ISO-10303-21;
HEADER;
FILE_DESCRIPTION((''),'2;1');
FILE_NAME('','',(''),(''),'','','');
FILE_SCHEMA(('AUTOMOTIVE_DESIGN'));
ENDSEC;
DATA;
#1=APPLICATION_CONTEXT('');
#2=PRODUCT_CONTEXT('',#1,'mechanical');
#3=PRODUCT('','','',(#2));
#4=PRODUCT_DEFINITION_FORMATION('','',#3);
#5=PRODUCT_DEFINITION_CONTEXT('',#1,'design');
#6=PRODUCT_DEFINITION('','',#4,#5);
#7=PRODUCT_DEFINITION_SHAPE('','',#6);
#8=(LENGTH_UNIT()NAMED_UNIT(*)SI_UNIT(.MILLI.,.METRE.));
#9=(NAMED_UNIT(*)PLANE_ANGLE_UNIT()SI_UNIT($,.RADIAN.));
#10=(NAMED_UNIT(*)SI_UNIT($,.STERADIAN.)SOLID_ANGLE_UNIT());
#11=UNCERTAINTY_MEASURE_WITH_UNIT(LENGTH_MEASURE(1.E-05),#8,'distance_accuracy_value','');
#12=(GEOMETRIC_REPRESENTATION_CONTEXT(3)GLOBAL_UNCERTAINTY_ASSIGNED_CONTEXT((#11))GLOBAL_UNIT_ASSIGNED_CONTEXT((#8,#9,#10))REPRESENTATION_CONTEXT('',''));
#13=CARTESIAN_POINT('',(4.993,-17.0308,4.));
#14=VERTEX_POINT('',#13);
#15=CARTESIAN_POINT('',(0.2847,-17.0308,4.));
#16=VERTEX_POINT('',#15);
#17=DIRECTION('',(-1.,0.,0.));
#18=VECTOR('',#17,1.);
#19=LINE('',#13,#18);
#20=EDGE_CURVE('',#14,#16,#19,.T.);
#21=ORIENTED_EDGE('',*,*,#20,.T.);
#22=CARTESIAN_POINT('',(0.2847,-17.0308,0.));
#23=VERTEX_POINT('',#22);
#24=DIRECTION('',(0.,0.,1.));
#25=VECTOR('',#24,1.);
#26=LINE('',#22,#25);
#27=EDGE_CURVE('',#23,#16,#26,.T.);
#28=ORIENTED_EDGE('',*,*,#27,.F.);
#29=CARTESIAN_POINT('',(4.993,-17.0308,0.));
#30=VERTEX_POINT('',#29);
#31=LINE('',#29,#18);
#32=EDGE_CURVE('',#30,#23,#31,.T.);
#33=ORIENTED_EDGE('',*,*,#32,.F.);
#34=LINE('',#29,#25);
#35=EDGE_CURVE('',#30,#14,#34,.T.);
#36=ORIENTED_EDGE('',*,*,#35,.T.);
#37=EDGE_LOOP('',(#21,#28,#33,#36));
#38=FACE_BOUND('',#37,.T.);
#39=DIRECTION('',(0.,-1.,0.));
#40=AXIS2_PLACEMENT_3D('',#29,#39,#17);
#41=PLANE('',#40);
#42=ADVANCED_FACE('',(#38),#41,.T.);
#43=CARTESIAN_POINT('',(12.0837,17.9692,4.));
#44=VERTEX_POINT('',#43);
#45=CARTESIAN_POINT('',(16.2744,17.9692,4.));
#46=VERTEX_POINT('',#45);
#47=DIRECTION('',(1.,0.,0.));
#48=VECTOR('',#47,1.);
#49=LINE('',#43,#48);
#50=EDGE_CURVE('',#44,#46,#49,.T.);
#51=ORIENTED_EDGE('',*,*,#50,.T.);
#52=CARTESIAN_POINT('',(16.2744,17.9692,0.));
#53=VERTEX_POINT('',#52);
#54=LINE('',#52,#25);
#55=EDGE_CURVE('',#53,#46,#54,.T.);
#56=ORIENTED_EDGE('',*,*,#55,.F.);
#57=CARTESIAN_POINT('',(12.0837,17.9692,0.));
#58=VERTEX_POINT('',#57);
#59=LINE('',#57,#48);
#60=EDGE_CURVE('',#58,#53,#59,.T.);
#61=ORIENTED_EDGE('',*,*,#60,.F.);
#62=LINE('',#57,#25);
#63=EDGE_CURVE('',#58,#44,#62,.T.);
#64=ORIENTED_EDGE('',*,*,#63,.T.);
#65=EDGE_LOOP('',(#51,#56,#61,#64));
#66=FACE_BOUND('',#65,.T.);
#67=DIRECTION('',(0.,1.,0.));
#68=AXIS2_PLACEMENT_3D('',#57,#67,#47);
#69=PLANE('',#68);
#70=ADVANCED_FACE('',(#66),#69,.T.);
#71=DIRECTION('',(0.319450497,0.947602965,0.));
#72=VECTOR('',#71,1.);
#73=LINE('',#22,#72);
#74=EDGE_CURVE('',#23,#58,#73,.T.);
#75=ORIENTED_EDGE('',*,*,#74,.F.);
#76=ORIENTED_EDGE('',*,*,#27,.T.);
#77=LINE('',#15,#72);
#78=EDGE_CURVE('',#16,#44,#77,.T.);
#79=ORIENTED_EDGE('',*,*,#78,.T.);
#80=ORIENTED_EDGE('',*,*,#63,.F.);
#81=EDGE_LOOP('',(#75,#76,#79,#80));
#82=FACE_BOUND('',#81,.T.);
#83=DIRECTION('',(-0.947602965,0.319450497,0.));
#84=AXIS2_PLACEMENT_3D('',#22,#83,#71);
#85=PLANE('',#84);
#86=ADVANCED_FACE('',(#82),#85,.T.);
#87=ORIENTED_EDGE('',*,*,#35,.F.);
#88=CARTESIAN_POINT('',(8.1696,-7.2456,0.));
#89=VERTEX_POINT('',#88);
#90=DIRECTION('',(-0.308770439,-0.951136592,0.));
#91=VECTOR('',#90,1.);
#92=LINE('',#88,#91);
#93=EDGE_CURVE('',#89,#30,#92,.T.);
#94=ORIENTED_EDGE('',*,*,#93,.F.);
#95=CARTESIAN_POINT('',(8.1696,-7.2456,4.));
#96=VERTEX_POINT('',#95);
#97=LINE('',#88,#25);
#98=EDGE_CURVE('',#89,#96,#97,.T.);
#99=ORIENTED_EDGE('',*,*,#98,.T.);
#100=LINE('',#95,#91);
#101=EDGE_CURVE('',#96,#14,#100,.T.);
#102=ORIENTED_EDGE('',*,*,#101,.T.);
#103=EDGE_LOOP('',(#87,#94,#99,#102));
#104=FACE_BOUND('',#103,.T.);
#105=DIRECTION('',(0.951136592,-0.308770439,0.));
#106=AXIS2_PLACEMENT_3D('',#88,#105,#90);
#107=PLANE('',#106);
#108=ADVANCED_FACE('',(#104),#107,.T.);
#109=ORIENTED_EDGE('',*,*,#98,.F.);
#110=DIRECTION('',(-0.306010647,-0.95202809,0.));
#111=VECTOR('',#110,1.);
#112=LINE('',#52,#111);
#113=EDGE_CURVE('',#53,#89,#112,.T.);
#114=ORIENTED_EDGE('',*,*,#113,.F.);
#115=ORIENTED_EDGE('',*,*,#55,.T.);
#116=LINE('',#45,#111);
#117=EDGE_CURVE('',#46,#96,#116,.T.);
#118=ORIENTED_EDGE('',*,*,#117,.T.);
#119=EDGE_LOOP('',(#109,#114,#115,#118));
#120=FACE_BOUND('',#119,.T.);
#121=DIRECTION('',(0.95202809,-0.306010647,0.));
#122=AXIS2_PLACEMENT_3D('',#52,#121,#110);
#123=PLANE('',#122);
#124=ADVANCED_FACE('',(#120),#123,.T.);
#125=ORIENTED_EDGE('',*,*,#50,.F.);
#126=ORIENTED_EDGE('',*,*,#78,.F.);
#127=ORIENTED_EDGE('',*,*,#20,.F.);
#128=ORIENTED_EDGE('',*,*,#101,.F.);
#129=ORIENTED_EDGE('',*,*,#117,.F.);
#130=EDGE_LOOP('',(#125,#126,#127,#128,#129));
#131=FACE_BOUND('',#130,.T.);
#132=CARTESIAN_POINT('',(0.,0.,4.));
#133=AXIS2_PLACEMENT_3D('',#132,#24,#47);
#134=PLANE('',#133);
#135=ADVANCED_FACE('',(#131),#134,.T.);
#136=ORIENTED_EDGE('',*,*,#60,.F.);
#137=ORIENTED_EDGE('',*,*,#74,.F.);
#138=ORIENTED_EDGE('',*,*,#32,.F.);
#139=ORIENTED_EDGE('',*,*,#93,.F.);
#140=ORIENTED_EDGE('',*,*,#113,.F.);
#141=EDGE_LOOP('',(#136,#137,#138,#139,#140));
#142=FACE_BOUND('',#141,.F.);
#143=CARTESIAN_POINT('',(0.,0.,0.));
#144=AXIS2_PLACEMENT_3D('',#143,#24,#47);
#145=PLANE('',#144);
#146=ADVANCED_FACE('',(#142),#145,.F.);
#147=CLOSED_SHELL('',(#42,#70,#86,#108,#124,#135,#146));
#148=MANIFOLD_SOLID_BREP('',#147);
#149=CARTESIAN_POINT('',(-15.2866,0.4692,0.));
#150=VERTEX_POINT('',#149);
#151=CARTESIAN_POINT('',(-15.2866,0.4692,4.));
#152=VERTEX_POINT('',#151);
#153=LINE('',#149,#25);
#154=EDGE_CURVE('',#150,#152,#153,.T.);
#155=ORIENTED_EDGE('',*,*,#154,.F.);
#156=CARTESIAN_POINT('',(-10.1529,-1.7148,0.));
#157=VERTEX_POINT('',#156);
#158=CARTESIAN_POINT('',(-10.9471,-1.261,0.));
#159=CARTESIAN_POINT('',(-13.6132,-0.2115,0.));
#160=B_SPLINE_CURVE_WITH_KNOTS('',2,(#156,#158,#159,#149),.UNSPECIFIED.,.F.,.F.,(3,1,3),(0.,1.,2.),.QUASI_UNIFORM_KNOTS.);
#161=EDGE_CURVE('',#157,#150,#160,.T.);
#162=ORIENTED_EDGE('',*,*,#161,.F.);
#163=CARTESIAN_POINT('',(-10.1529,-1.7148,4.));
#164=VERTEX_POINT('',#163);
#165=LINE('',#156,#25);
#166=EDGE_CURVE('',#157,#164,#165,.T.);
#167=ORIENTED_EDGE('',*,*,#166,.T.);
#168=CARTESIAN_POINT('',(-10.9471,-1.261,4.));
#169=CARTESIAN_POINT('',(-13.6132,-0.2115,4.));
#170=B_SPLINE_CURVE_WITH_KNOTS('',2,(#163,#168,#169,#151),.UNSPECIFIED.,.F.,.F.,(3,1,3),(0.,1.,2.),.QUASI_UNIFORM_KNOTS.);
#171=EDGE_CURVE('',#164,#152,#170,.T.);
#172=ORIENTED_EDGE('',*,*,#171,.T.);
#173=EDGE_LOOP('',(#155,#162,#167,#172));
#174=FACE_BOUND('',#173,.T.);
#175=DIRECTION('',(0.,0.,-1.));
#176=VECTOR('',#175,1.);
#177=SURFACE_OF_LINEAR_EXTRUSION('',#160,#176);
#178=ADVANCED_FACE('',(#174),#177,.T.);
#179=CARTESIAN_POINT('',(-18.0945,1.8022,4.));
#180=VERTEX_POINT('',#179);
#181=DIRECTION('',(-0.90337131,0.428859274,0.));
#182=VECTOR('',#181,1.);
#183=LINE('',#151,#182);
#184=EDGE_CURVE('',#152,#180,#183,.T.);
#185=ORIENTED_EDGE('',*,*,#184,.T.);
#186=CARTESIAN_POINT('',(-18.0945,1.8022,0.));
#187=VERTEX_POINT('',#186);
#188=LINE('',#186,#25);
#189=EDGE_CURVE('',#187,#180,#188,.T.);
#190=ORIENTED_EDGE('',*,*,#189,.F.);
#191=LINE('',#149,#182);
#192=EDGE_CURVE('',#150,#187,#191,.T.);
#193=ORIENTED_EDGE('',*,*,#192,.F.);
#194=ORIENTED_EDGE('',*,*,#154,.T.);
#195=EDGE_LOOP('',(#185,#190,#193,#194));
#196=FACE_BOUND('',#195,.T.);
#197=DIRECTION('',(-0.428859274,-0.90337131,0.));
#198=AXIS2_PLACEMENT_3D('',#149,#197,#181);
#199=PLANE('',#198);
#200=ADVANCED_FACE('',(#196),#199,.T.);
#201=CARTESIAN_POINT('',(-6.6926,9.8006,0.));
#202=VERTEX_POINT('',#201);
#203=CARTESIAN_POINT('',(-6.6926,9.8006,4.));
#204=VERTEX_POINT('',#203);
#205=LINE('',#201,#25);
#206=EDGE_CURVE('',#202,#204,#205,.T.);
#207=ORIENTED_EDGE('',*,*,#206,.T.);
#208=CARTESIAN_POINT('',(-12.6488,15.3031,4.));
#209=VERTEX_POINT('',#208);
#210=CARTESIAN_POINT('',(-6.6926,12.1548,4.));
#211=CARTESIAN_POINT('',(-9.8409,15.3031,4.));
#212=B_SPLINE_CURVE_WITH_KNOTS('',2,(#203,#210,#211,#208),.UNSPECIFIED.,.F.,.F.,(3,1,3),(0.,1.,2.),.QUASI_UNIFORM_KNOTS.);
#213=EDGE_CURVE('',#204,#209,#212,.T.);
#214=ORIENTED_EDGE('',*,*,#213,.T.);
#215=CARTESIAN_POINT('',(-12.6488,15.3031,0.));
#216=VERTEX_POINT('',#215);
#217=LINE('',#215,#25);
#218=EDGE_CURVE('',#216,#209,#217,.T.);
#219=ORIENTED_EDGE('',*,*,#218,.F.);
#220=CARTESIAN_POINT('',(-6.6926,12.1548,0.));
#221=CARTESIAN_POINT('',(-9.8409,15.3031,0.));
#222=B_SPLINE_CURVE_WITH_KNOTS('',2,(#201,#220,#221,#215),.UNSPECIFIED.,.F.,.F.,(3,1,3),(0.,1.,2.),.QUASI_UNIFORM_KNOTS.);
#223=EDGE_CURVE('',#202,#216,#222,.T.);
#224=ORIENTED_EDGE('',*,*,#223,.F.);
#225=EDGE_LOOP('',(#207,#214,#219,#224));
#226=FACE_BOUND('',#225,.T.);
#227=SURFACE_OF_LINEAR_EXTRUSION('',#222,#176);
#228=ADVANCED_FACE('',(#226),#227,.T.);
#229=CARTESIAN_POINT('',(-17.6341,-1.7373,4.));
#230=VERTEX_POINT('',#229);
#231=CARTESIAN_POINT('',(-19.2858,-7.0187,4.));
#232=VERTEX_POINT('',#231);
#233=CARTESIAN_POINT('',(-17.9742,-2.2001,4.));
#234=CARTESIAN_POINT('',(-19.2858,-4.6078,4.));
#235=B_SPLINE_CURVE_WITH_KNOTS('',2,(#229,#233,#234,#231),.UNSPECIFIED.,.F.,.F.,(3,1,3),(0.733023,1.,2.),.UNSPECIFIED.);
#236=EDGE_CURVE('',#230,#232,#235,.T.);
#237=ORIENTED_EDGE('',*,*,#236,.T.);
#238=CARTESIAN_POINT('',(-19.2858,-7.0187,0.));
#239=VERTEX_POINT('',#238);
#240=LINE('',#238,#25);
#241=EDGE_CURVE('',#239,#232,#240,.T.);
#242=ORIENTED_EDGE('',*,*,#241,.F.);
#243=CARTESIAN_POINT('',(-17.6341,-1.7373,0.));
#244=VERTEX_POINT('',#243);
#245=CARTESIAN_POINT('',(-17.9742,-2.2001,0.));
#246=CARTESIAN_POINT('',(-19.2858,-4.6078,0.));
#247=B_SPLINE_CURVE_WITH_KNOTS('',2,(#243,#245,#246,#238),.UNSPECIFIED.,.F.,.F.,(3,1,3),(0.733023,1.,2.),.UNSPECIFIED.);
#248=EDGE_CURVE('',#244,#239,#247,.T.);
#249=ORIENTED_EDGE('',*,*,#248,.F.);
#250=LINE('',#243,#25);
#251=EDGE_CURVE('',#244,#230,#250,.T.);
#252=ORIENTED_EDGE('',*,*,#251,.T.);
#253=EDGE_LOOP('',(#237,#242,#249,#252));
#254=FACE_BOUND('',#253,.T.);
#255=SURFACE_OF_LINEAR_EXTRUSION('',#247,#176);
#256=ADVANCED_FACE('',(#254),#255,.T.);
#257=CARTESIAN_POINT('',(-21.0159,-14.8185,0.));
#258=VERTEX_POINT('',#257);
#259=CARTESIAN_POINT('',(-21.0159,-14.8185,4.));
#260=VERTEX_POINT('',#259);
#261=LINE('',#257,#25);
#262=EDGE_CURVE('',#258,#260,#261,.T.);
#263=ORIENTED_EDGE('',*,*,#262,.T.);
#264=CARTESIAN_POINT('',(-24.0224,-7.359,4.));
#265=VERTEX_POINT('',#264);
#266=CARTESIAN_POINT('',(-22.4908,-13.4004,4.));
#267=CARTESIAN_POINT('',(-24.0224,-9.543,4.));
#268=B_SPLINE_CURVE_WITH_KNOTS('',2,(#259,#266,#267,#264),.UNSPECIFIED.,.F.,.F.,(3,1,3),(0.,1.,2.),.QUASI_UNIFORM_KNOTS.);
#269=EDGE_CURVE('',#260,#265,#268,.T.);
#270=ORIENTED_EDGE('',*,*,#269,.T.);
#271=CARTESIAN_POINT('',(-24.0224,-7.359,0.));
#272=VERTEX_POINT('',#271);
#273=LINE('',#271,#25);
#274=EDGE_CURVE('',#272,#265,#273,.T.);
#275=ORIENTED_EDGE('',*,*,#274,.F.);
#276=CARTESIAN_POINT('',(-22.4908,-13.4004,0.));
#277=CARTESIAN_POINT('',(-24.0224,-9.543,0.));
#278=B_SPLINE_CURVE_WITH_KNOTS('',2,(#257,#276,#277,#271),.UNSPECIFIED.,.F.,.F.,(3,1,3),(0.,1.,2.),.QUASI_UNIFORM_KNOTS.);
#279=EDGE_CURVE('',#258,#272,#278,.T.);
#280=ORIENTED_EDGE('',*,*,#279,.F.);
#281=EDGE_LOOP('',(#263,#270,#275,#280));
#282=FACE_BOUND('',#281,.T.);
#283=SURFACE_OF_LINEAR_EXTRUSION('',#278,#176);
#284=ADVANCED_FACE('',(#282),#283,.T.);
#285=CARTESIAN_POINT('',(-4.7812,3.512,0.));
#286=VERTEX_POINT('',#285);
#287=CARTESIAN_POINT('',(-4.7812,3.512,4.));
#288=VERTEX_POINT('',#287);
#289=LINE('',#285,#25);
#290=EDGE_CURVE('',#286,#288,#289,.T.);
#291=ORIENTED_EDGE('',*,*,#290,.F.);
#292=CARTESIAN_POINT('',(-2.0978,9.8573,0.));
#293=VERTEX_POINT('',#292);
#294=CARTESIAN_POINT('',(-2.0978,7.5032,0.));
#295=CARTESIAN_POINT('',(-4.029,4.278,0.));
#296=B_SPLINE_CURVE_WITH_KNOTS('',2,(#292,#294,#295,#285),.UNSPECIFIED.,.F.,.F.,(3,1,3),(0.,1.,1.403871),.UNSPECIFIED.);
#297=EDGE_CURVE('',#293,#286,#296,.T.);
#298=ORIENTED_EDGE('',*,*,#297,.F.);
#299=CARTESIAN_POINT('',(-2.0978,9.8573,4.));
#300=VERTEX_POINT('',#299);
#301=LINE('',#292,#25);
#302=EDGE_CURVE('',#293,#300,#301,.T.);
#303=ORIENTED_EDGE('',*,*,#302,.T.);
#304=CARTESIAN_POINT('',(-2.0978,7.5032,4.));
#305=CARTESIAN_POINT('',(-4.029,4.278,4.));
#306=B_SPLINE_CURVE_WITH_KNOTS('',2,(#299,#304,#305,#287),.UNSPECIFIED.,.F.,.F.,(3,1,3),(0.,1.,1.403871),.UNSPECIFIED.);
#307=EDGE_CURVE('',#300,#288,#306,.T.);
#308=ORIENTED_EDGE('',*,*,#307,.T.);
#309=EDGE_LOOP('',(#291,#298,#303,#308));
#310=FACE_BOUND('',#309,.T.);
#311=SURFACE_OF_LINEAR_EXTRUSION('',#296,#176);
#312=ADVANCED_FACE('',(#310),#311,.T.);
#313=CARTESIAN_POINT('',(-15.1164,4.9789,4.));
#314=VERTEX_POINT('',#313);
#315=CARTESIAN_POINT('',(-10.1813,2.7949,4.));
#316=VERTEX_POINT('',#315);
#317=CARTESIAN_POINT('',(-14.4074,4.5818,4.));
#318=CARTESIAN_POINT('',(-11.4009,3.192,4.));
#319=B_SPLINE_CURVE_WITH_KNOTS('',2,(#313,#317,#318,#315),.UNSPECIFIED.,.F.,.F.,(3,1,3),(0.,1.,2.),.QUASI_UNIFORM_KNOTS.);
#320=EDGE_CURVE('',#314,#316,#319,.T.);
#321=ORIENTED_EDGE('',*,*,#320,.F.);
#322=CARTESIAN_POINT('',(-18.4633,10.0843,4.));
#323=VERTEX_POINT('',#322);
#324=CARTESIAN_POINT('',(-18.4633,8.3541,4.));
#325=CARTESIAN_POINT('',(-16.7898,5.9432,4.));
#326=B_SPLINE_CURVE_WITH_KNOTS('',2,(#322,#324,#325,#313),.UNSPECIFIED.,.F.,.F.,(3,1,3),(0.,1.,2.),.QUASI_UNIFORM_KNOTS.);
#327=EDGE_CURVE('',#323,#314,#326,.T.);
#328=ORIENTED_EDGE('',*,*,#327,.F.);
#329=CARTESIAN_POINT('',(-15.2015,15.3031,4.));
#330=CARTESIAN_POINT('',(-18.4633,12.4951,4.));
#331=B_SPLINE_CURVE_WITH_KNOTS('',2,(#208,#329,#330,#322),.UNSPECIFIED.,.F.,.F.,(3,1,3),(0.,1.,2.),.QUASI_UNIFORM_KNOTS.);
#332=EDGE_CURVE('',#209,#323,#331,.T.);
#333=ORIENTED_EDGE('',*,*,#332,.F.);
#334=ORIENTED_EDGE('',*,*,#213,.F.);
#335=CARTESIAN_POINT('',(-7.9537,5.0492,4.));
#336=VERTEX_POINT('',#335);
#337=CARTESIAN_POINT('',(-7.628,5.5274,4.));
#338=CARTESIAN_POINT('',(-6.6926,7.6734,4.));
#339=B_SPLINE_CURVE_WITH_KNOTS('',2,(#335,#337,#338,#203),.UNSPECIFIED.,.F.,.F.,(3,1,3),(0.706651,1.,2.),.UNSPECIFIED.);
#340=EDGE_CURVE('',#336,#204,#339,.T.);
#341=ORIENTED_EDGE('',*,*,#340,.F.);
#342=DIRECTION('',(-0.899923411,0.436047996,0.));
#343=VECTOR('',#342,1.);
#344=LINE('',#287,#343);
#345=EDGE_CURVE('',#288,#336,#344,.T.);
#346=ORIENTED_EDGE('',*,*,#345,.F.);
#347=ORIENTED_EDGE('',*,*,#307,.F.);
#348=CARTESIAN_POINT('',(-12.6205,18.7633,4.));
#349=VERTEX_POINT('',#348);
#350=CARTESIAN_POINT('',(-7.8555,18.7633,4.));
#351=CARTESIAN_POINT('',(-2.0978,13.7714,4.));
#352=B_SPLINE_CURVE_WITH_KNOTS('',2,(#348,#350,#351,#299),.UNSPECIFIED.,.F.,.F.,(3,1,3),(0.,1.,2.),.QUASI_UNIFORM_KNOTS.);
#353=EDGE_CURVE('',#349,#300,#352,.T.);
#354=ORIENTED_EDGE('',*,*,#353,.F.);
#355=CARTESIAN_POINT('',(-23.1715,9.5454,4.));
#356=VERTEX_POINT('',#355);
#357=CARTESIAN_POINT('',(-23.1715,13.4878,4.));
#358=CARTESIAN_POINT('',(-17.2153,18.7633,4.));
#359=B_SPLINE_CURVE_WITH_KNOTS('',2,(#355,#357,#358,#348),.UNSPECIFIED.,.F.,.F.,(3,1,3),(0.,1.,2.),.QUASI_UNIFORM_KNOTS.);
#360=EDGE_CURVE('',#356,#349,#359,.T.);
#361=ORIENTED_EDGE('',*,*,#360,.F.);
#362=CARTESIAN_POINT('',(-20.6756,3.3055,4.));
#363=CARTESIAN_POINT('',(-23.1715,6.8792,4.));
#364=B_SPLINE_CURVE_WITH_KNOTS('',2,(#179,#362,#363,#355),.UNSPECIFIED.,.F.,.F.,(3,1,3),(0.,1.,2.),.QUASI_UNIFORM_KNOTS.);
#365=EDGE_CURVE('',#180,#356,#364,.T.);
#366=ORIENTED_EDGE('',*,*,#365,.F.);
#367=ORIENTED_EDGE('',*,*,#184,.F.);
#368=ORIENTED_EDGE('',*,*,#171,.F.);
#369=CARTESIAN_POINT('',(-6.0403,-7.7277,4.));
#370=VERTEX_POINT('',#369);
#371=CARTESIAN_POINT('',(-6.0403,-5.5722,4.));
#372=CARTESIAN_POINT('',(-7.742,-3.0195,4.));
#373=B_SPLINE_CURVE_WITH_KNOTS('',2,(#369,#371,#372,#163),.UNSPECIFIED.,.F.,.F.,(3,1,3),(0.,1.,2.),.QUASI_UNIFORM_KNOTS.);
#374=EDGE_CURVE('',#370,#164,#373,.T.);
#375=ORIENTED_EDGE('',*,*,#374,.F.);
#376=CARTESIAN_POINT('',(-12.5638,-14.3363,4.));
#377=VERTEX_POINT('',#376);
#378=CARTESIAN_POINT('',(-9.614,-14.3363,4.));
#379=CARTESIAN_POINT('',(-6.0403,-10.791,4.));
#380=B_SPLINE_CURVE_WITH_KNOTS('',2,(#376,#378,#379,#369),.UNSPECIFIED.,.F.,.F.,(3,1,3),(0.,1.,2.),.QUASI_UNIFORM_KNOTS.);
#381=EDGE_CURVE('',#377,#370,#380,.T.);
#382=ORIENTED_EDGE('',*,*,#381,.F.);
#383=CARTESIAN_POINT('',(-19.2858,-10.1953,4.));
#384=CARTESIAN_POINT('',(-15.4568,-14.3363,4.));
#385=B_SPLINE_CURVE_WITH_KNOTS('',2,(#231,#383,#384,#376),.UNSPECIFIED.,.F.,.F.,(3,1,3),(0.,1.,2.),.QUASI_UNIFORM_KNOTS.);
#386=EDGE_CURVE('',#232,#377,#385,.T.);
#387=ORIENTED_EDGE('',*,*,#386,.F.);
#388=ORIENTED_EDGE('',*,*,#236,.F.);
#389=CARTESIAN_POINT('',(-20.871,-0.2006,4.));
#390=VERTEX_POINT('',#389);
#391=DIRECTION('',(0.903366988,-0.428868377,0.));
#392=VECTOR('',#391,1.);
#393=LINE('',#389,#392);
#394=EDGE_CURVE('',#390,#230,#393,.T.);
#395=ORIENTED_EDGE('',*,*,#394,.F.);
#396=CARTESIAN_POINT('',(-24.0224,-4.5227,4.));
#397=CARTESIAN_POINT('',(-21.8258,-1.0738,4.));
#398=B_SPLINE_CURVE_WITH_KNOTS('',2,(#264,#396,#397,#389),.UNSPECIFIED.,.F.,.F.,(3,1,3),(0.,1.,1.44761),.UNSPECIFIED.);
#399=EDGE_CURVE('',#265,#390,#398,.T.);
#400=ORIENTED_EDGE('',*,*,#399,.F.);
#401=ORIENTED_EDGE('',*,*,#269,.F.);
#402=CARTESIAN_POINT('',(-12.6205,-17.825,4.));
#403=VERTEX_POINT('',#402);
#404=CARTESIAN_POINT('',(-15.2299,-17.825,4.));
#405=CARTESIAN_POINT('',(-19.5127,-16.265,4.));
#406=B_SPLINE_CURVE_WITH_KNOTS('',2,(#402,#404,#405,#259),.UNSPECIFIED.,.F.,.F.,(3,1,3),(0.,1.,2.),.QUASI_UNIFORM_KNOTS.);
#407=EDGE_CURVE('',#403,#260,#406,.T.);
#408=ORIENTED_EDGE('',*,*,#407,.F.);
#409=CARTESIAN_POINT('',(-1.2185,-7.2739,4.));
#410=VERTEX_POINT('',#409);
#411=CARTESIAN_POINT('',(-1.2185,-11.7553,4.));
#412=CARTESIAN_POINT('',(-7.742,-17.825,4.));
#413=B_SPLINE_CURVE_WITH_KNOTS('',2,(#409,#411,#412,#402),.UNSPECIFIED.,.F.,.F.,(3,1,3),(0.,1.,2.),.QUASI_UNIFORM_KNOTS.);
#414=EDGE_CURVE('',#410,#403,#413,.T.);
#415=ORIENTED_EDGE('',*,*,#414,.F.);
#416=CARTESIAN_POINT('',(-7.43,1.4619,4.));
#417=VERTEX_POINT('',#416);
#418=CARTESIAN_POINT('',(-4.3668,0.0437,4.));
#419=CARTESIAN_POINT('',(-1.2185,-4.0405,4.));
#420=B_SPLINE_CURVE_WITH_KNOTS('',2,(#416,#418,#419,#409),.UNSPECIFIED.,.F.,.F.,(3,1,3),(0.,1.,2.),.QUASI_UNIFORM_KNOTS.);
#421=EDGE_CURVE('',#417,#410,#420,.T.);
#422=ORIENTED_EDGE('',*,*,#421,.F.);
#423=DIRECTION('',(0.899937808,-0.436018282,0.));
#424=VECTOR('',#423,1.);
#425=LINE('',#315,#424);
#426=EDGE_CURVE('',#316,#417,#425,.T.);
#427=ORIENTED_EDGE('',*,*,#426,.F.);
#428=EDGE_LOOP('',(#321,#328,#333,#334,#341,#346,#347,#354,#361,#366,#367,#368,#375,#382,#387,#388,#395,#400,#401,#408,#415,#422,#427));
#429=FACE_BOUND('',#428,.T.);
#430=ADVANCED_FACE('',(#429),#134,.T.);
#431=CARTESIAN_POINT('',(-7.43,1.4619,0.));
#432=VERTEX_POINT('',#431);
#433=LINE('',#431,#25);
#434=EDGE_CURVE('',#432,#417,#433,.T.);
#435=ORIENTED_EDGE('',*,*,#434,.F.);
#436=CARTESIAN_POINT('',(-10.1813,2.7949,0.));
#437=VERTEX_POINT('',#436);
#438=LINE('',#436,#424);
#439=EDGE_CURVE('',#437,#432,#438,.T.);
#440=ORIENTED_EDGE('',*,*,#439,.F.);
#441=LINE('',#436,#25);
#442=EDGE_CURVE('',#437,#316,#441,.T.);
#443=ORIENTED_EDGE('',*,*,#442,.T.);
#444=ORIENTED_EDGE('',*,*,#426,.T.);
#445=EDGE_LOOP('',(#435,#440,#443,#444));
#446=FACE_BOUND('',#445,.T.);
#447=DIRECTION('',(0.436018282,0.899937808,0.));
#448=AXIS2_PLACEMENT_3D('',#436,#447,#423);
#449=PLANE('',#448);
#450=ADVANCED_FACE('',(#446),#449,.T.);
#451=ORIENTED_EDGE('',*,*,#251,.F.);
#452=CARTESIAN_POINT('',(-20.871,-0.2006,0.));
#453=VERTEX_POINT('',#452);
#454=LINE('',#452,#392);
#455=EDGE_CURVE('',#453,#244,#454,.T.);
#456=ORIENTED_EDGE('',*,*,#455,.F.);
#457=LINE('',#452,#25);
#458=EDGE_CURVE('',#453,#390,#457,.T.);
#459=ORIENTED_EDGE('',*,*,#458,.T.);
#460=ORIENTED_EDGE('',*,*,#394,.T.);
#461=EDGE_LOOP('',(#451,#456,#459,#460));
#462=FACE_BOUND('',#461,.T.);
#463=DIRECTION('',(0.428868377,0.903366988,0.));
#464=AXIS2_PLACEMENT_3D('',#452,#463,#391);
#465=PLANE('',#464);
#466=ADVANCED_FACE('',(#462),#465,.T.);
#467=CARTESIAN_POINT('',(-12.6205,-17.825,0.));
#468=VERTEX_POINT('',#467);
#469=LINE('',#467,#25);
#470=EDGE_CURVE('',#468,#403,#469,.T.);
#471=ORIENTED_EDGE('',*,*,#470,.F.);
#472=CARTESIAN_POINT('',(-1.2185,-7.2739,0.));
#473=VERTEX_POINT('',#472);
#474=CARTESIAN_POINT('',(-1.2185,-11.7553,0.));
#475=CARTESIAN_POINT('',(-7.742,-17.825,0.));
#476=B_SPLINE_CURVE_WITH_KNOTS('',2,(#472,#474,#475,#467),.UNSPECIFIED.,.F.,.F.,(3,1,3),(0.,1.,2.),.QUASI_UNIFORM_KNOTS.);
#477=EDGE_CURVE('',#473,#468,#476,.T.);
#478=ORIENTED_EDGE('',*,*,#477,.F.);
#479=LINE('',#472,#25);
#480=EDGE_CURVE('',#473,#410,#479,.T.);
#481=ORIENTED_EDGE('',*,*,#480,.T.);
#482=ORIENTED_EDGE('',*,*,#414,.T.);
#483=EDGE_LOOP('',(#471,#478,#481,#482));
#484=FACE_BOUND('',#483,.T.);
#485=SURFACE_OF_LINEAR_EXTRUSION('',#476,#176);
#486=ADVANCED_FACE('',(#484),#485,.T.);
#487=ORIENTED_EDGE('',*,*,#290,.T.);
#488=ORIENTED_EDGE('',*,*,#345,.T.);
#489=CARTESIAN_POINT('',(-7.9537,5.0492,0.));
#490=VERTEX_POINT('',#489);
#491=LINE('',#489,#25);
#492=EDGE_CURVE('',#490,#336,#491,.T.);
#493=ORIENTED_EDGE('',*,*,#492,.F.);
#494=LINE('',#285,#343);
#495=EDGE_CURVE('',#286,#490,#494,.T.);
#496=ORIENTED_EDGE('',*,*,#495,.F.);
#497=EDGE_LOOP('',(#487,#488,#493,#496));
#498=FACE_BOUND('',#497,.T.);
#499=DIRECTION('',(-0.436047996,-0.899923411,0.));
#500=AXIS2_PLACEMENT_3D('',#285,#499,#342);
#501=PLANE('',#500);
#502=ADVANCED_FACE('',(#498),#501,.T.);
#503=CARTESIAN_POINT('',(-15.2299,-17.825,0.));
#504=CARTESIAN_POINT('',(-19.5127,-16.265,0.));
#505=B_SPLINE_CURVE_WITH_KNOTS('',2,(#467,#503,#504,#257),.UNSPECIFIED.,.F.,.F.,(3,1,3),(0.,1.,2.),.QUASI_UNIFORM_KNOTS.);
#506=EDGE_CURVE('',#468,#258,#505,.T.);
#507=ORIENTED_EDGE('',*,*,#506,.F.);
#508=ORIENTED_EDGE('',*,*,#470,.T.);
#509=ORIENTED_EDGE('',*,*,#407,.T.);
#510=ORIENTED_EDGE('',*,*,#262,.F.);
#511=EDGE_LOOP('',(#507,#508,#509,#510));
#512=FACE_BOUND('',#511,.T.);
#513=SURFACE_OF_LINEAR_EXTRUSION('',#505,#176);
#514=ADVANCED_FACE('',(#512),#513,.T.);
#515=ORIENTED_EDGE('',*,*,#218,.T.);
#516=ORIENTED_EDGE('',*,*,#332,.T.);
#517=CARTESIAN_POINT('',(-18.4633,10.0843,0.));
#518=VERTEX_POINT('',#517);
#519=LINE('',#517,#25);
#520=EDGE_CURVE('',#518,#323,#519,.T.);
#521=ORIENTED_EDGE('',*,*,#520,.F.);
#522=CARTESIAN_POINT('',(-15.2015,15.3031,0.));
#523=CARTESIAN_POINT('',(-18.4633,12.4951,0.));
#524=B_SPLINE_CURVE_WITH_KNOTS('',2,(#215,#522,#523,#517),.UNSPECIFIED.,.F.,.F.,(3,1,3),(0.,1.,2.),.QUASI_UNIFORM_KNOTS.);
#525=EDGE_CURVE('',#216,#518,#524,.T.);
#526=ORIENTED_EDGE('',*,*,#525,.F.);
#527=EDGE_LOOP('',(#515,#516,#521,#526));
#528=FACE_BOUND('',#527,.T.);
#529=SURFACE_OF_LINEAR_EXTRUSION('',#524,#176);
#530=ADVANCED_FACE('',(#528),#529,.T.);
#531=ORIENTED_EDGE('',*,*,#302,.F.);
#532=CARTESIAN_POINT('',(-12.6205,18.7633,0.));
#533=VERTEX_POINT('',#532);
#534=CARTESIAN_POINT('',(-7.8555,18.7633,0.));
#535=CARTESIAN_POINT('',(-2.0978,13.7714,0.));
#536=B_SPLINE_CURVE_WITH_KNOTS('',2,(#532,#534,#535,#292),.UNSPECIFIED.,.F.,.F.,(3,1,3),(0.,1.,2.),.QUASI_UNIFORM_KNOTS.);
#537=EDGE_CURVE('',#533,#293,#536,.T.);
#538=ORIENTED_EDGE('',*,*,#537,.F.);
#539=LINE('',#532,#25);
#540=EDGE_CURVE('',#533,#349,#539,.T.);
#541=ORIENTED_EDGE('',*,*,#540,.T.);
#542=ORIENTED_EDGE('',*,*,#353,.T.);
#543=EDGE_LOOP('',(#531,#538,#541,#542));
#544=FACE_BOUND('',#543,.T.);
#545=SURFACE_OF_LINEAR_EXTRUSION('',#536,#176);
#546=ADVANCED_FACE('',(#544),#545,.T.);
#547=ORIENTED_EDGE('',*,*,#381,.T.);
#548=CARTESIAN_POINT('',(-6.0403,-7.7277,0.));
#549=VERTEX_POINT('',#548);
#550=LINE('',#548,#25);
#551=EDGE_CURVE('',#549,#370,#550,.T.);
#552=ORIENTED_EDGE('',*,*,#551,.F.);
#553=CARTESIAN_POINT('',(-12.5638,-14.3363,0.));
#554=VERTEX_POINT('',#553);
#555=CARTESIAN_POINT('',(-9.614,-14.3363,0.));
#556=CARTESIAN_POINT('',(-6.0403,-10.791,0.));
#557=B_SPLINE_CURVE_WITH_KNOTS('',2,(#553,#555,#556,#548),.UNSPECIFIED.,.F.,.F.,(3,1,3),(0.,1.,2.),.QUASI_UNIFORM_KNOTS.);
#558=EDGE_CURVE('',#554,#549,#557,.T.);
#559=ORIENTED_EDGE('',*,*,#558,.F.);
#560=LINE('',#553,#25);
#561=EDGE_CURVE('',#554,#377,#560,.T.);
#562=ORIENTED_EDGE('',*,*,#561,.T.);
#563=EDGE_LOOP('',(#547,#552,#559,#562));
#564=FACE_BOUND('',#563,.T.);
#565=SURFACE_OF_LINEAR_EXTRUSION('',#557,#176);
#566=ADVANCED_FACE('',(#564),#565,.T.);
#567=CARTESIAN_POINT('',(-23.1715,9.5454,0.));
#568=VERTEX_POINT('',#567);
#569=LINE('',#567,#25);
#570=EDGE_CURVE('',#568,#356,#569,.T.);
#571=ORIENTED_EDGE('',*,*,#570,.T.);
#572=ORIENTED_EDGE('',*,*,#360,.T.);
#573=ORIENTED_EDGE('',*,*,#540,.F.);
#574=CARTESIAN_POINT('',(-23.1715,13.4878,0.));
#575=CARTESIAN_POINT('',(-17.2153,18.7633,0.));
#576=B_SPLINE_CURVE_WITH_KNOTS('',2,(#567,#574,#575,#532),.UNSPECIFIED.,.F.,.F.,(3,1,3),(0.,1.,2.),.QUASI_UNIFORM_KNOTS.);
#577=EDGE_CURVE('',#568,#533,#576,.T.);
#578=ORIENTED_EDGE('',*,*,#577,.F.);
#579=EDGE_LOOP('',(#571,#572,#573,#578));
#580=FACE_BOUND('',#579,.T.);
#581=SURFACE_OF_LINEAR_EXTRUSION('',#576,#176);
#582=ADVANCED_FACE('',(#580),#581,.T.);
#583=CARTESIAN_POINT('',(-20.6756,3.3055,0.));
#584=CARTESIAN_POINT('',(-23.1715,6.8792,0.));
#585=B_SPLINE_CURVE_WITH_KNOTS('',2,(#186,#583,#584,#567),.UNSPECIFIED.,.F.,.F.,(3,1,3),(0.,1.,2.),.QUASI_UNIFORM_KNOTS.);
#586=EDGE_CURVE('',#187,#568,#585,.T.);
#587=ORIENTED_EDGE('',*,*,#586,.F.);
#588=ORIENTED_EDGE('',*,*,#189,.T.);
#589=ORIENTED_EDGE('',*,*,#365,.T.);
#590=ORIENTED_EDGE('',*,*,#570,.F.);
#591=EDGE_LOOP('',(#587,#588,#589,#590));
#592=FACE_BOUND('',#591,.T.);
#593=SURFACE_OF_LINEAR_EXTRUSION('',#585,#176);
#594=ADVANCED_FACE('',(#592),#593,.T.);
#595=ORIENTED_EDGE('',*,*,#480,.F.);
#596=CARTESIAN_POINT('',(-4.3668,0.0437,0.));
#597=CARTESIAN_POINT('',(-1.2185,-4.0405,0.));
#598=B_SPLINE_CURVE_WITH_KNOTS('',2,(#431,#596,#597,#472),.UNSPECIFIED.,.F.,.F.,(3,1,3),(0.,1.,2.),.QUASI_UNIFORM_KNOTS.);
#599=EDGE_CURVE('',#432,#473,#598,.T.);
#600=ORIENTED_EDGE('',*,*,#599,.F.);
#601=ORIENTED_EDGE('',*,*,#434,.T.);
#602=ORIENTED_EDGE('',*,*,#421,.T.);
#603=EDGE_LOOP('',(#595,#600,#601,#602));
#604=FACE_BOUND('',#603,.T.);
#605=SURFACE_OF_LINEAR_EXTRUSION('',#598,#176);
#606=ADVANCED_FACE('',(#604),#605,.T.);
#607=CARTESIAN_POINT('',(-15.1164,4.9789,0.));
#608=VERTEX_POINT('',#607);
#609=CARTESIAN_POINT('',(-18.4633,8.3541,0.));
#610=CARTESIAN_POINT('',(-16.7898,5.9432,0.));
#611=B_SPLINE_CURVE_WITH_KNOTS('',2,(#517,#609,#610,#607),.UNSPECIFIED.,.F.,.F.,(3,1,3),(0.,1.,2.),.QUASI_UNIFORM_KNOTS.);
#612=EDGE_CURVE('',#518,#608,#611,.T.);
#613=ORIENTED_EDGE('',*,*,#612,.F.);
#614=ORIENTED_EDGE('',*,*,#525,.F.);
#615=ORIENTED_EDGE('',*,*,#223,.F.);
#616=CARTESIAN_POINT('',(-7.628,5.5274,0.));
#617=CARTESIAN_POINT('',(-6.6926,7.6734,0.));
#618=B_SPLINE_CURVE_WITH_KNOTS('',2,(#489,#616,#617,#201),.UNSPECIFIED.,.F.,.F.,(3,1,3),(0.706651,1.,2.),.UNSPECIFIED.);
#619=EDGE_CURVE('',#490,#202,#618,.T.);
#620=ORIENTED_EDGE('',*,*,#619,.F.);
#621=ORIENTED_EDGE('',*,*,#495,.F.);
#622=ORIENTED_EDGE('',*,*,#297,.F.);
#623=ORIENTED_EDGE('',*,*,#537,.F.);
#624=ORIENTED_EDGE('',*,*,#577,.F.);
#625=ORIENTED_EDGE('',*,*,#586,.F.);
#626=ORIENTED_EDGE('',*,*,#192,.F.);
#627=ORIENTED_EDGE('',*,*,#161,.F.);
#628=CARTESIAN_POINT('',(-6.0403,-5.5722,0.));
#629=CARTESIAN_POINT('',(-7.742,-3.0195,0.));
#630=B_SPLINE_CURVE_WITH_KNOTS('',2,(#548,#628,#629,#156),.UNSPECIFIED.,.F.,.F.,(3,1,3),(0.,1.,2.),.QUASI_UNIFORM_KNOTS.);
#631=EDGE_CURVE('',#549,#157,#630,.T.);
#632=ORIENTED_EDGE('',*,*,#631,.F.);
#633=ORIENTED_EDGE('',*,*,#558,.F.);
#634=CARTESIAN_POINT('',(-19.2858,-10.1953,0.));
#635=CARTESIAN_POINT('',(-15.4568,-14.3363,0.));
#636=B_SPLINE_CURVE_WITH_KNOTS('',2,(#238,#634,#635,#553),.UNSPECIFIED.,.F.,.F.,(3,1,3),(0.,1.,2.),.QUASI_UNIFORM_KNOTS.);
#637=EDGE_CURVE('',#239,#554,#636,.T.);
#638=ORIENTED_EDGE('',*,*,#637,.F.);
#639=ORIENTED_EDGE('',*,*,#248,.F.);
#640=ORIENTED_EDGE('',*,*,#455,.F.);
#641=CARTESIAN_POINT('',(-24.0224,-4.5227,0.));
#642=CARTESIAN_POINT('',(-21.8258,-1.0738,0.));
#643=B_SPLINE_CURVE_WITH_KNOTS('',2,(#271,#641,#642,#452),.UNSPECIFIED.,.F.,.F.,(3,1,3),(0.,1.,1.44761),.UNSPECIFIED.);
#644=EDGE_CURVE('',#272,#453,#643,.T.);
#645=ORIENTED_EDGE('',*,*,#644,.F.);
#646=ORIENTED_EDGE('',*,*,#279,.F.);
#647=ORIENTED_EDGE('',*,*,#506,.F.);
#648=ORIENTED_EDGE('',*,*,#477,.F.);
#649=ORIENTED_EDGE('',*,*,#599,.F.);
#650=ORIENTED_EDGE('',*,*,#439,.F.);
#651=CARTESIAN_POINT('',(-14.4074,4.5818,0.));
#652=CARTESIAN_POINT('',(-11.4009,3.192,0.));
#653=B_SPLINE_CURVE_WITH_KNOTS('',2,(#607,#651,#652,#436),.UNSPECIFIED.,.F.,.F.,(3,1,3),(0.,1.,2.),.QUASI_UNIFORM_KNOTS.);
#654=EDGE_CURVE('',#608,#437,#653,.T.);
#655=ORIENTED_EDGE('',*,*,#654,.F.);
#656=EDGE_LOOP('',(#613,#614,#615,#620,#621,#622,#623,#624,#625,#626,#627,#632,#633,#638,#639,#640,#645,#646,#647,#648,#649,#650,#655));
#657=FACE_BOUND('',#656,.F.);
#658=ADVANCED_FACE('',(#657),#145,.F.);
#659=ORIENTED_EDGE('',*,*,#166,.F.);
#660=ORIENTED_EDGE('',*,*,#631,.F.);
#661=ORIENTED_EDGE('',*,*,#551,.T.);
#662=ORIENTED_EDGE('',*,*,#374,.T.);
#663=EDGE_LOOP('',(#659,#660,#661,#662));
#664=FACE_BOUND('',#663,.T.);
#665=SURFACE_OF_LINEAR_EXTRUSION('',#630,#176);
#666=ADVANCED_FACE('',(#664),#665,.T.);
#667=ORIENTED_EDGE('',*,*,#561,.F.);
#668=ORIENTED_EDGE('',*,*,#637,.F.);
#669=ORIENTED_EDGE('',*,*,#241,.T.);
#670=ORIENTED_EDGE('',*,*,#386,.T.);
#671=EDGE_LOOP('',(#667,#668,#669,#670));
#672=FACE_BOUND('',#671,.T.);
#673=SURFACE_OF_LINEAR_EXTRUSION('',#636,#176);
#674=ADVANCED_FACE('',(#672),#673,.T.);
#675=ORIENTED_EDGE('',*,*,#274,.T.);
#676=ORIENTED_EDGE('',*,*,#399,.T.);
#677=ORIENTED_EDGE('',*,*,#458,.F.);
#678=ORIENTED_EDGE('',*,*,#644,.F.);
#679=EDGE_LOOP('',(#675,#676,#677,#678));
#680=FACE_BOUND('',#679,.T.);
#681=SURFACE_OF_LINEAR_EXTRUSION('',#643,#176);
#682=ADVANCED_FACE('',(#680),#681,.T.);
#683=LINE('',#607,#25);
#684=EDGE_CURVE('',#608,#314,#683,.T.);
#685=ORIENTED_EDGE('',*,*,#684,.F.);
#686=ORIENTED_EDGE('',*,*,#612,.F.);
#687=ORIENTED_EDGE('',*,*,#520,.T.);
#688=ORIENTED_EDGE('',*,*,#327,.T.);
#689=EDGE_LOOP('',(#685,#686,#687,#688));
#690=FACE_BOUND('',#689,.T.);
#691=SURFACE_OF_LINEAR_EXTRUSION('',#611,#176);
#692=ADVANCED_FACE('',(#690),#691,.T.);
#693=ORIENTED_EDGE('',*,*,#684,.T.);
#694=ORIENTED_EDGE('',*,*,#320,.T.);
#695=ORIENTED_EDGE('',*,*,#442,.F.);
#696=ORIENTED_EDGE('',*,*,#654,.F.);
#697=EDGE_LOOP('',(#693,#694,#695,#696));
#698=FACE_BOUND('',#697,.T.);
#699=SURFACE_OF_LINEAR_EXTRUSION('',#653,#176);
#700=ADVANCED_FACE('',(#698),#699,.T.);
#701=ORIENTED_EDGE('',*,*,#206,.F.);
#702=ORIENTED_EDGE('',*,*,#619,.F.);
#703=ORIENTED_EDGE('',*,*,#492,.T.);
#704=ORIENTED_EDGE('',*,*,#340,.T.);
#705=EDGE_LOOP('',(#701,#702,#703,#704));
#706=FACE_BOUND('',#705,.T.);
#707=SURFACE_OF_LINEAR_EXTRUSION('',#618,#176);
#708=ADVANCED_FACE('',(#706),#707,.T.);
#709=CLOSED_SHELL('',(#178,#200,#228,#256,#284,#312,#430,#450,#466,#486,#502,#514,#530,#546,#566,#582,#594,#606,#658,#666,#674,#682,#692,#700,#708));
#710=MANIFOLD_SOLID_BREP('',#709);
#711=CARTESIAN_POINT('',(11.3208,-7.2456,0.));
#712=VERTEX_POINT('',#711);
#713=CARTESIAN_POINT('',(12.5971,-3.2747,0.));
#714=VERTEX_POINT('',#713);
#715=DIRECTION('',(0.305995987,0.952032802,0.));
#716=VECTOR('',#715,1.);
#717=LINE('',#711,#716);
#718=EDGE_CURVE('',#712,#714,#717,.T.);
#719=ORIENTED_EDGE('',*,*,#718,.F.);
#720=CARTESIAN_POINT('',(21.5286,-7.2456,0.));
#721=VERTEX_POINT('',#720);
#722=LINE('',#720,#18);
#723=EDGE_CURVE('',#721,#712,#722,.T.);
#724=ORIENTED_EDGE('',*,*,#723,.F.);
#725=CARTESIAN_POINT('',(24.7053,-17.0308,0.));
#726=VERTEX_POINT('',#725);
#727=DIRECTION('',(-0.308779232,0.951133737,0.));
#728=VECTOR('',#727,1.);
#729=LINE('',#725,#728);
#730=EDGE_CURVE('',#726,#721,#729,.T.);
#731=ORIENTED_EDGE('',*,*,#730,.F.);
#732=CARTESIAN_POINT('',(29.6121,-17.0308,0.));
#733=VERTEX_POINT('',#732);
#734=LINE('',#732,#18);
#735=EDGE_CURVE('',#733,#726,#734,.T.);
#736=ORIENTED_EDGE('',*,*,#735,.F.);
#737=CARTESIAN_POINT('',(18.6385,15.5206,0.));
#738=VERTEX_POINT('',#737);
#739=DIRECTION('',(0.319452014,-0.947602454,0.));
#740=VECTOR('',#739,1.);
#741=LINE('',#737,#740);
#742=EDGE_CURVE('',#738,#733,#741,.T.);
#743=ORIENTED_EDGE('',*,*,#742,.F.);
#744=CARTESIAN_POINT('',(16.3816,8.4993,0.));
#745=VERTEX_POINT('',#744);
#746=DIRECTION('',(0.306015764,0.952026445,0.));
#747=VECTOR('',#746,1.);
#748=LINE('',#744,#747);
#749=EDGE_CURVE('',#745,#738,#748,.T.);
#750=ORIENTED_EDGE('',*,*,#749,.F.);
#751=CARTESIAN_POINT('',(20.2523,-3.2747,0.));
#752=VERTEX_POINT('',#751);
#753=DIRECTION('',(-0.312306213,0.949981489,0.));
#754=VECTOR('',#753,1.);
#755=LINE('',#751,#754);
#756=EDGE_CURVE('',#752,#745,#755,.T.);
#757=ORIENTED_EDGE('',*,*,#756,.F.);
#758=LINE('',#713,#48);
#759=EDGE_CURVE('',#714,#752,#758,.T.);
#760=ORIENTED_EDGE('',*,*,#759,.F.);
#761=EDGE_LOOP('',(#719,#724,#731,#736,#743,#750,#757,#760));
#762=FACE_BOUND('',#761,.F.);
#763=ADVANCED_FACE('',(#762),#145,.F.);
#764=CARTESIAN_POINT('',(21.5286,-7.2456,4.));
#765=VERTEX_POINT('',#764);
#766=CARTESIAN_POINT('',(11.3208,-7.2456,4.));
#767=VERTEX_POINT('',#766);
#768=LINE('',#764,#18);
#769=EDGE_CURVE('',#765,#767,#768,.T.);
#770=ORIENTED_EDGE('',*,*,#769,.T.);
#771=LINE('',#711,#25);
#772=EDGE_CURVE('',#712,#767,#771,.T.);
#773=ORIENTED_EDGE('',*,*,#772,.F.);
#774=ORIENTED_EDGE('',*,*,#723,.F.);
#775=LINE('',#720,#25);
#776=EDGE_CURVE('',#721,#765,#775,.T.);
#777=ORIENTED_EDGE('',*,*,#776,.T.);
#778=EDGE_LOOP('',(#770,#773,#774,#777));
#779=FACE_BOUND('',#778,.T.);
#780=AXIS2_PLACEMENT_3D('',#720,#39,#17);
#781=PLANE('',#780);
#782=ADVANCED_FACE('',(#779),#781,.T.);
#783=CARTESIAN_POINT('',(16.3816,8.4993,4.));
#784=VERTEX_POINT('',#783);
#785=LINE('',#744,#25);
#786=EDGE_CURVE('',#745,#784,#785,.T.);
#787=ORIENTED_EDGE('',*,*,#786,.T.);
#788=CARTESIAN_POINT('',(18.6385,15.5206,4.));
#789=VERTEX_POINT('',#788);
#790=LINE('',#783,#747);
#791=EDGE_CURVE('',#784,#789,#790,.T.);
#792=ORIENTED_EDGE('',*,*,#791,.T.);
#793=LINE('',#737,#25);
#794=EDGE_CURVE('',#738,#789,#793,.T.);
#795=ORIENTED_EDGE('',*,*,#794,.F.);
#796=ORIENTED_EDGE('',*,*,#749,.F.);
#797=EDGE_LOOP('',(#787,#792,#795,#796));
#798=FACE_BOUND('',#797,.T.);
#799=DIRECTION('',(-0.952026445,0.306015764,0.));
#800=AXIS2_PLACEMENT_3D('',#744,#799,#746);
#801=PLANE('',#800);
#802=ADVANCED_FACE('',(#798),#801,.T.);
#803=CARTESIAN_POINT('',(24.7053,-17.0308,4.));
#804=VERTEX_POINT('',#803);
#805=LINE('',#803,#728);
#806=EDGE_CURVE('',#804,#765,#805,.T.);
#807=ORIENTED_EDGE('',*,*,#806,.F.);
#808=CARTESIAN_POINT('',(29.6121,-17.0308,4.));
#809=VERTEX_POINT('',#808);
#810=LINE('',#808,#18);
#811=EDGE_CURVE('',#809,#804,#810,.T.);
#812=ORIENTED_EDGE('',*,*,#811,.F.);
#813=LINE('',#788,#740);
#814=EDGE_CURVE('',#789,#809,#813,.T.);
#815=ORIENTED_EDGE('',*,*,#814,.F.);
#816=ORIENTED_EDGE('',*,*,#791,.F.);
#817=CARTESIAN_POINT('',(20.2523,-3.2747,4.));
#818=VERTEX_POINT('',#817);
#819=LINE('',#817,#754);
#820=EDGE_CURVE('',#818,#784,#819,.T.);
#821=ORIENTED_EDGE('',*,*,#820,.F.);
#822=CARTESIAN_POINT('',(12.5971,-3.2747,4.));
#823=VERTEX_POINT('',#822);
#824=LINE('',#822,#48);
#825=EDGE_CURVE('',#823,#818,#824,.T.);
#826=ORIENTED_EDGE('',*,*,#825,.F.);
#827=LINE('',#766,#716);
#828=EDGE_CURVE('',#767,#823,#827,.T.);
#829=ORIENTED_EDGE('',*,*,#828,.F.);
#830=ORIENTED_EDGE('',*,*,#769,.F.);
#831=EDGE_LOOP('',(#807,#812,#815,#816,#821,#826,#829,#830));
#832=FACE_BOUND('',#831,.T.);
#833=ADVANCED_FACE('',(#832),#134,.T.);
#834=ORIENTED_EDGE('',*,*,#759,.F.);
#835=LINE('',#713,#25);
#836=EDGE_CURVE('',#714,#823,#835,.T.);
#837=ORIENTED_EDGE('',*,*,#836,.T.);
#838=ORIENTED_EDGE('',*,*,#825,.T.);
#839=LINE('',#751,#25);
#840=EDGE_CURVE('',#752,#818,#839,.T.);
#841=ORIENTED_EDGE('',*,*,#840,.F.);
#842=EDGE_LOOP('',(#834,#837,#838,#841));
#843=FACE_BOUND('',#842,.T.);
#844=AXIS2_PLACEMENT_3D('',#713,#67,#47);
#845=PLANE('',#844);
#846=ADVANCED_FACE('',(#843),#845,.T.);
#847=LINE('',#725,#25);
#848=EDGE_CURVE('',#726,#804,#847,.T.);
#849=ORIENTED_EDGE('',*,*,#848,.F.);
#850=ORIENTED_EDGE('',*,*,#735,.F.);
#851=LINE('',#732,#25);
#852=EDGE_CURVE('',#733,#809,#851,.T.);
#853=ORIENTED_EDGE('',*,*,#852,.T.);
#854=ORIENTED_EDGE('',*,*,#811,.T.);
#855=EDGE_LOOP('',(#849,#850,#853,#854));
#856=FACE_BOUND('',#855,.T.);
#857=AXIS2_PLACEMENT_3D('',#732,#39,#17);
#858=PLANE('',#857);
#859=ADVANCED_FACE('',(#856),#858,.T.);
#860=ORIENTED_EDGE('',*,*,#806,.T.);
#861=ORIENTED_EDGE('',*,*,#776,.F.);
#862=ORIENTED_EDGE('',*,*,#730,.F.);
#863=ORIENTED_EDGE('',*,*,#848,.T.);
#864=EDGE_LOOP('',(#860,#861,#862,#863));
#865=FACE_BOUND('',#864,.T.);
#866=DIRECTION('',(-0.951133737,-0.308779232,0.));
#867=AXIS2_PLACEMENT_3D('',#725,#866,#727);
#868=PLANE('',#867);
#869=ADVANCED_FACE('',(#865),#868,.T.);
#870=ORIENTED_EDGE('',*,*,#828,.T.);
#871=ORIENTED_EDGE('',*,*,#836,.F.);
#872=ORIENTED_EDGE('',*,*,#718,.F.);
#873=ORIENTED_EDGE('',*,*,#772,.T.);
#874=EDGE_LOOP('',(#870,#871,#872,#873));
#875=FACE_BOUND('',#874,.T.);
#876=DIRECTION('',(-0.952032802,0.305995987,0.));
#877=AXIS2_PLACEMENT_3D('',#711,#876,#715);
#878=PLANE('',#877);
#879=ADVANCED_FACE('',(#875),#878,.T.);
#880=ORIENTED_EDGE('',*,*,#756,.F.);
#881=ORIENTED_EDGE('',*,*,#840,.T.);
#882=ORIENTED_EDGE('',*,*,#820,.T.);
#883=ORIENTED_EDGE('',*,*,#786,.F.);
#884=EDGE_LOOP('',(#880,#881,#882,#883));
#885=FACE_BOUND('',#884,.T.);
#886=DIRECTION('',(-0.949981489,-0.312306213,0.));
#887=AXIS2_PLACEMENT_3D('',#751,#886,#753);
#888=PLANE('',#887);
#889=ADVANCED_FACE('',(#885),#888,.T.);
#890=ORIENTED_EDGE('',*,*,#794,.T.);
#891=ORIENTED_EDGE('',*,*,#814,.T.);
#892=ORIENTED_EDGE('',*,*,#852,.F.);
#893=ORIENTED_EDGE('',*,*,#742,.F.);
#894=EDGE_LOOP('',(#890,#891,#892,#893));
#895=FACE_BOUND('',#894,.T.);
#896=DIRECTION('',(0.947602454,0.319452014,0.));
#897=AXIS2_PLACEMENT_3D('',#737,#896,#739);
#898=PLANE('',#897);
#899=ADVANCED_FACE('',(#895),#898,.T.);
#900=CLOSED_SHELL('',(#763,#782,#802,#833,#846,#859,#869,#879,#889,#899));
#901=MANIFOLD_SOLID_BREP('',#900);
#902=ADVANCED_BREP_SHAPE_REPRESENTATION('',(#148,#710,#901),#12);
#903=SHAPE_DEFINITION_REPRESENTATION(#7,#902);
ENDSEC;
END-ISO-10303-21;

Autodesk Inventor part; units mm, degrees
ref_plane "YZ Plane" through (0, 0, 0) normal (1, 0, 0) x (0, 1, 0)
ref_plane "XZ Plane" through (0, 0, 0) normal (0, 1, 0) x (-1, 0, 0)
ref_plane "XY Plane" through (0, 0, 0) normal (0, 0, 1) x (1, 0, 0)
sketch "Эскиз1" plane through (0, 0, 0) normal (0, 0, 1) x (1, 0, 0)
  line L0 (12.5971, -3.2747) -> (20.2523, -3.2747)
  line L1 (20.2523, -3.2747) -> (16.3816, 8.4993)
  line L2 (16.3816, 8.4993) -> (18.6385, 15.5206)
  line L3 (18.6385, 15.5206) -> (29.6121, -17.0308)
  line L4 (29.6121, -17.0308) -> (24.7053, -17.0308)
  line L5 (24.7053, -17.0308) -> (21.5286, -7.2456)
  line L6 (21.5286, -7.2456) -> (11.3208, -7.2456)
  line L7 (11.3208, -7.2456) -> (12.5971, -3.2747)
  line L8 (16.2744, 17.9692) -> (8.1696, -7.2456)
  line L9 (8.1696, -7.2456) -> (4.993, -17.0308)
  line L10 (4.993, -17.0308) -> (0.2847, -17.0308)
  line L11 (0.2847, -17.0308) -> (12.0837, 17.9692)
  line L12 (12.0837, 17.9692) -> (16.2744, 17.9692)
  spline S0 degree 2 poles (-6.6926, 9.8006) (-6.6926, 12.1548) (-9.8409, 15.3031) (-12.6488, 15.3031) knots 0 0 0 1 2 2 2
  spline S1 degree 2 poles (-12.6488, 15.3031) (-15.2015, 15.3031) (-18.4633, 12.4951) (-18.4633, 10.0843) knots 0 0 0 1 2 2 2
  spline S2 degree 2 poles (-18.4633, 10.0843) (-18.4633, 8.3541) (-16.7898, 5.9432) (-15.1164, 4.9789) knots 0 0 0 1 2 2 2
  spline S3 degree 2 poles (-15.1164, 4.9789) (-14.4074, 4.5818) (-11.4009, 3.192) (-10.1813, 2.7949) knots 0 0 0 1 2 2 2
  line L13 (-10.1813, 2.7949) -> (-7.43, 1.4619)
  spline S4 degree 2 poles (-7.43, 1.4619) (-4.3668, 0.0437) (-1.2185, -4.0405) (-1.2185, -7.2739) knots 0 0 0 1 2 2 2
  spline S5 degree 2 poles (-1.2185, -7.2739) (-1.2185, -11.7553) (-7.742, -17.825) (-12.6205, -17.825) knots 0 0 0 1 2 2 2
  spline S6 degree 2 poles (-12.6205, -17.825) (-15.2299, -17.825) (-19.5127, -16.265) (-21.0159, -14.8185) knots 0 0 0 1 2 2 2
  spline S7 degree 2 poles (-21.0159, -14.8185) (-22.4908, -13.4004) (-24.0224, -9.543) (-24.0224, -7.359) knots 0 0 0 1 2 2 2
  spline S8 degree 2 poles (-24.0224, -7.359) (-24.0224, -4.5227) (-21.8258, -1.0738) (-20.871, -0.2006) knots 0 0 0 1 1.44761 1.44761 1.44761
  line L14 (-20.871, -0.2006) -> (-17.6341, -1.7373)
  spline S9 degree 2 poles (-17.6341, -1.7373) (-17.9742, -2.2001) (-19.2858, -4.6078) (-19.2858, -7.0187) knots 0.733023 0.733023 0.733023 1 2 2 2
  spline S10 degree 2 poles (-19.2858, -7.0187) (-19.2858, -10.1953) (-15.4568, -14.3363) (-12.5638, -14.3363) knots 0 0 0 1 2 2 2
  spline S11 degree 2 poles (-12.5638, -14.3363) (-9.614, -14.3363) (-6.0403, -10.791) (-6.0403, -7.7277) knots 0 0 0 1 2 2 2
  spline S12 degree 2 poles (-6.0403, -7.7277) (-6.0403, -5.5722) (-7.742, -3.0195) (-10.1529, -1.7148) knots 0 0 0 1 2 2 2
  spline S13 degree 2 poles (-10.1529, -1.7148) (-10.9471, -1.261) (-13.6132, -0.2115) (-15.2866, 0.4692) knots 0 0 0 1 2 2 2
  line L15 (-15.2866, 0.4692) -> (-18.0945, 1.8022)
  spline S14 degree 2 poles (-18.0945, 1.8022) (-20.6756, 3.3055) (-23.1715, 6.8792) (-23.1715, 9.5454) knots 0 0 0 1 2 2 2
  spline S15 degree 2 poles (-23.1715, 9.5454) (-23.1715, 13.4878) (-17.2153, 18.7633) (-12.6205, 18.7633) knots 0 0 0 1 2 2 2
  spline S16 degree 2 poles (-12.6205, 18.7633) (-7.8555, 18.7633) (-2.0978, 13.7714) (-2.0978, 9.8573) knots 0 0 0 1 2 2 2
  spline S17 degree 2 poles (-2.0978, 9.8573) (-2.0978, 7.5032) (-4.029, 4.278) (-4.7812, 3.512) knots 0 0 0 1 1.403871 1.403871 1.403871
  line L16 (-4.7812, 3.512) -> (-7.9537, 5.0492)
  spline S18 degree 2 poles (-7.9537, 5.0492) (-7.628, 5.5274) (-6.6926, 7.6734) (-6.6926, 9.8006) knots 0.706651 0.706651 0.706651 1 2 2 2
  point P0 (0, 0)
  point P1 (1.7035, -0.9566)
  point P2 (1.7035, -0.9566)
extrude "Выдавливание1" add sketch "Эскиз1" along normal blind 4
properties part number "8А встав"
